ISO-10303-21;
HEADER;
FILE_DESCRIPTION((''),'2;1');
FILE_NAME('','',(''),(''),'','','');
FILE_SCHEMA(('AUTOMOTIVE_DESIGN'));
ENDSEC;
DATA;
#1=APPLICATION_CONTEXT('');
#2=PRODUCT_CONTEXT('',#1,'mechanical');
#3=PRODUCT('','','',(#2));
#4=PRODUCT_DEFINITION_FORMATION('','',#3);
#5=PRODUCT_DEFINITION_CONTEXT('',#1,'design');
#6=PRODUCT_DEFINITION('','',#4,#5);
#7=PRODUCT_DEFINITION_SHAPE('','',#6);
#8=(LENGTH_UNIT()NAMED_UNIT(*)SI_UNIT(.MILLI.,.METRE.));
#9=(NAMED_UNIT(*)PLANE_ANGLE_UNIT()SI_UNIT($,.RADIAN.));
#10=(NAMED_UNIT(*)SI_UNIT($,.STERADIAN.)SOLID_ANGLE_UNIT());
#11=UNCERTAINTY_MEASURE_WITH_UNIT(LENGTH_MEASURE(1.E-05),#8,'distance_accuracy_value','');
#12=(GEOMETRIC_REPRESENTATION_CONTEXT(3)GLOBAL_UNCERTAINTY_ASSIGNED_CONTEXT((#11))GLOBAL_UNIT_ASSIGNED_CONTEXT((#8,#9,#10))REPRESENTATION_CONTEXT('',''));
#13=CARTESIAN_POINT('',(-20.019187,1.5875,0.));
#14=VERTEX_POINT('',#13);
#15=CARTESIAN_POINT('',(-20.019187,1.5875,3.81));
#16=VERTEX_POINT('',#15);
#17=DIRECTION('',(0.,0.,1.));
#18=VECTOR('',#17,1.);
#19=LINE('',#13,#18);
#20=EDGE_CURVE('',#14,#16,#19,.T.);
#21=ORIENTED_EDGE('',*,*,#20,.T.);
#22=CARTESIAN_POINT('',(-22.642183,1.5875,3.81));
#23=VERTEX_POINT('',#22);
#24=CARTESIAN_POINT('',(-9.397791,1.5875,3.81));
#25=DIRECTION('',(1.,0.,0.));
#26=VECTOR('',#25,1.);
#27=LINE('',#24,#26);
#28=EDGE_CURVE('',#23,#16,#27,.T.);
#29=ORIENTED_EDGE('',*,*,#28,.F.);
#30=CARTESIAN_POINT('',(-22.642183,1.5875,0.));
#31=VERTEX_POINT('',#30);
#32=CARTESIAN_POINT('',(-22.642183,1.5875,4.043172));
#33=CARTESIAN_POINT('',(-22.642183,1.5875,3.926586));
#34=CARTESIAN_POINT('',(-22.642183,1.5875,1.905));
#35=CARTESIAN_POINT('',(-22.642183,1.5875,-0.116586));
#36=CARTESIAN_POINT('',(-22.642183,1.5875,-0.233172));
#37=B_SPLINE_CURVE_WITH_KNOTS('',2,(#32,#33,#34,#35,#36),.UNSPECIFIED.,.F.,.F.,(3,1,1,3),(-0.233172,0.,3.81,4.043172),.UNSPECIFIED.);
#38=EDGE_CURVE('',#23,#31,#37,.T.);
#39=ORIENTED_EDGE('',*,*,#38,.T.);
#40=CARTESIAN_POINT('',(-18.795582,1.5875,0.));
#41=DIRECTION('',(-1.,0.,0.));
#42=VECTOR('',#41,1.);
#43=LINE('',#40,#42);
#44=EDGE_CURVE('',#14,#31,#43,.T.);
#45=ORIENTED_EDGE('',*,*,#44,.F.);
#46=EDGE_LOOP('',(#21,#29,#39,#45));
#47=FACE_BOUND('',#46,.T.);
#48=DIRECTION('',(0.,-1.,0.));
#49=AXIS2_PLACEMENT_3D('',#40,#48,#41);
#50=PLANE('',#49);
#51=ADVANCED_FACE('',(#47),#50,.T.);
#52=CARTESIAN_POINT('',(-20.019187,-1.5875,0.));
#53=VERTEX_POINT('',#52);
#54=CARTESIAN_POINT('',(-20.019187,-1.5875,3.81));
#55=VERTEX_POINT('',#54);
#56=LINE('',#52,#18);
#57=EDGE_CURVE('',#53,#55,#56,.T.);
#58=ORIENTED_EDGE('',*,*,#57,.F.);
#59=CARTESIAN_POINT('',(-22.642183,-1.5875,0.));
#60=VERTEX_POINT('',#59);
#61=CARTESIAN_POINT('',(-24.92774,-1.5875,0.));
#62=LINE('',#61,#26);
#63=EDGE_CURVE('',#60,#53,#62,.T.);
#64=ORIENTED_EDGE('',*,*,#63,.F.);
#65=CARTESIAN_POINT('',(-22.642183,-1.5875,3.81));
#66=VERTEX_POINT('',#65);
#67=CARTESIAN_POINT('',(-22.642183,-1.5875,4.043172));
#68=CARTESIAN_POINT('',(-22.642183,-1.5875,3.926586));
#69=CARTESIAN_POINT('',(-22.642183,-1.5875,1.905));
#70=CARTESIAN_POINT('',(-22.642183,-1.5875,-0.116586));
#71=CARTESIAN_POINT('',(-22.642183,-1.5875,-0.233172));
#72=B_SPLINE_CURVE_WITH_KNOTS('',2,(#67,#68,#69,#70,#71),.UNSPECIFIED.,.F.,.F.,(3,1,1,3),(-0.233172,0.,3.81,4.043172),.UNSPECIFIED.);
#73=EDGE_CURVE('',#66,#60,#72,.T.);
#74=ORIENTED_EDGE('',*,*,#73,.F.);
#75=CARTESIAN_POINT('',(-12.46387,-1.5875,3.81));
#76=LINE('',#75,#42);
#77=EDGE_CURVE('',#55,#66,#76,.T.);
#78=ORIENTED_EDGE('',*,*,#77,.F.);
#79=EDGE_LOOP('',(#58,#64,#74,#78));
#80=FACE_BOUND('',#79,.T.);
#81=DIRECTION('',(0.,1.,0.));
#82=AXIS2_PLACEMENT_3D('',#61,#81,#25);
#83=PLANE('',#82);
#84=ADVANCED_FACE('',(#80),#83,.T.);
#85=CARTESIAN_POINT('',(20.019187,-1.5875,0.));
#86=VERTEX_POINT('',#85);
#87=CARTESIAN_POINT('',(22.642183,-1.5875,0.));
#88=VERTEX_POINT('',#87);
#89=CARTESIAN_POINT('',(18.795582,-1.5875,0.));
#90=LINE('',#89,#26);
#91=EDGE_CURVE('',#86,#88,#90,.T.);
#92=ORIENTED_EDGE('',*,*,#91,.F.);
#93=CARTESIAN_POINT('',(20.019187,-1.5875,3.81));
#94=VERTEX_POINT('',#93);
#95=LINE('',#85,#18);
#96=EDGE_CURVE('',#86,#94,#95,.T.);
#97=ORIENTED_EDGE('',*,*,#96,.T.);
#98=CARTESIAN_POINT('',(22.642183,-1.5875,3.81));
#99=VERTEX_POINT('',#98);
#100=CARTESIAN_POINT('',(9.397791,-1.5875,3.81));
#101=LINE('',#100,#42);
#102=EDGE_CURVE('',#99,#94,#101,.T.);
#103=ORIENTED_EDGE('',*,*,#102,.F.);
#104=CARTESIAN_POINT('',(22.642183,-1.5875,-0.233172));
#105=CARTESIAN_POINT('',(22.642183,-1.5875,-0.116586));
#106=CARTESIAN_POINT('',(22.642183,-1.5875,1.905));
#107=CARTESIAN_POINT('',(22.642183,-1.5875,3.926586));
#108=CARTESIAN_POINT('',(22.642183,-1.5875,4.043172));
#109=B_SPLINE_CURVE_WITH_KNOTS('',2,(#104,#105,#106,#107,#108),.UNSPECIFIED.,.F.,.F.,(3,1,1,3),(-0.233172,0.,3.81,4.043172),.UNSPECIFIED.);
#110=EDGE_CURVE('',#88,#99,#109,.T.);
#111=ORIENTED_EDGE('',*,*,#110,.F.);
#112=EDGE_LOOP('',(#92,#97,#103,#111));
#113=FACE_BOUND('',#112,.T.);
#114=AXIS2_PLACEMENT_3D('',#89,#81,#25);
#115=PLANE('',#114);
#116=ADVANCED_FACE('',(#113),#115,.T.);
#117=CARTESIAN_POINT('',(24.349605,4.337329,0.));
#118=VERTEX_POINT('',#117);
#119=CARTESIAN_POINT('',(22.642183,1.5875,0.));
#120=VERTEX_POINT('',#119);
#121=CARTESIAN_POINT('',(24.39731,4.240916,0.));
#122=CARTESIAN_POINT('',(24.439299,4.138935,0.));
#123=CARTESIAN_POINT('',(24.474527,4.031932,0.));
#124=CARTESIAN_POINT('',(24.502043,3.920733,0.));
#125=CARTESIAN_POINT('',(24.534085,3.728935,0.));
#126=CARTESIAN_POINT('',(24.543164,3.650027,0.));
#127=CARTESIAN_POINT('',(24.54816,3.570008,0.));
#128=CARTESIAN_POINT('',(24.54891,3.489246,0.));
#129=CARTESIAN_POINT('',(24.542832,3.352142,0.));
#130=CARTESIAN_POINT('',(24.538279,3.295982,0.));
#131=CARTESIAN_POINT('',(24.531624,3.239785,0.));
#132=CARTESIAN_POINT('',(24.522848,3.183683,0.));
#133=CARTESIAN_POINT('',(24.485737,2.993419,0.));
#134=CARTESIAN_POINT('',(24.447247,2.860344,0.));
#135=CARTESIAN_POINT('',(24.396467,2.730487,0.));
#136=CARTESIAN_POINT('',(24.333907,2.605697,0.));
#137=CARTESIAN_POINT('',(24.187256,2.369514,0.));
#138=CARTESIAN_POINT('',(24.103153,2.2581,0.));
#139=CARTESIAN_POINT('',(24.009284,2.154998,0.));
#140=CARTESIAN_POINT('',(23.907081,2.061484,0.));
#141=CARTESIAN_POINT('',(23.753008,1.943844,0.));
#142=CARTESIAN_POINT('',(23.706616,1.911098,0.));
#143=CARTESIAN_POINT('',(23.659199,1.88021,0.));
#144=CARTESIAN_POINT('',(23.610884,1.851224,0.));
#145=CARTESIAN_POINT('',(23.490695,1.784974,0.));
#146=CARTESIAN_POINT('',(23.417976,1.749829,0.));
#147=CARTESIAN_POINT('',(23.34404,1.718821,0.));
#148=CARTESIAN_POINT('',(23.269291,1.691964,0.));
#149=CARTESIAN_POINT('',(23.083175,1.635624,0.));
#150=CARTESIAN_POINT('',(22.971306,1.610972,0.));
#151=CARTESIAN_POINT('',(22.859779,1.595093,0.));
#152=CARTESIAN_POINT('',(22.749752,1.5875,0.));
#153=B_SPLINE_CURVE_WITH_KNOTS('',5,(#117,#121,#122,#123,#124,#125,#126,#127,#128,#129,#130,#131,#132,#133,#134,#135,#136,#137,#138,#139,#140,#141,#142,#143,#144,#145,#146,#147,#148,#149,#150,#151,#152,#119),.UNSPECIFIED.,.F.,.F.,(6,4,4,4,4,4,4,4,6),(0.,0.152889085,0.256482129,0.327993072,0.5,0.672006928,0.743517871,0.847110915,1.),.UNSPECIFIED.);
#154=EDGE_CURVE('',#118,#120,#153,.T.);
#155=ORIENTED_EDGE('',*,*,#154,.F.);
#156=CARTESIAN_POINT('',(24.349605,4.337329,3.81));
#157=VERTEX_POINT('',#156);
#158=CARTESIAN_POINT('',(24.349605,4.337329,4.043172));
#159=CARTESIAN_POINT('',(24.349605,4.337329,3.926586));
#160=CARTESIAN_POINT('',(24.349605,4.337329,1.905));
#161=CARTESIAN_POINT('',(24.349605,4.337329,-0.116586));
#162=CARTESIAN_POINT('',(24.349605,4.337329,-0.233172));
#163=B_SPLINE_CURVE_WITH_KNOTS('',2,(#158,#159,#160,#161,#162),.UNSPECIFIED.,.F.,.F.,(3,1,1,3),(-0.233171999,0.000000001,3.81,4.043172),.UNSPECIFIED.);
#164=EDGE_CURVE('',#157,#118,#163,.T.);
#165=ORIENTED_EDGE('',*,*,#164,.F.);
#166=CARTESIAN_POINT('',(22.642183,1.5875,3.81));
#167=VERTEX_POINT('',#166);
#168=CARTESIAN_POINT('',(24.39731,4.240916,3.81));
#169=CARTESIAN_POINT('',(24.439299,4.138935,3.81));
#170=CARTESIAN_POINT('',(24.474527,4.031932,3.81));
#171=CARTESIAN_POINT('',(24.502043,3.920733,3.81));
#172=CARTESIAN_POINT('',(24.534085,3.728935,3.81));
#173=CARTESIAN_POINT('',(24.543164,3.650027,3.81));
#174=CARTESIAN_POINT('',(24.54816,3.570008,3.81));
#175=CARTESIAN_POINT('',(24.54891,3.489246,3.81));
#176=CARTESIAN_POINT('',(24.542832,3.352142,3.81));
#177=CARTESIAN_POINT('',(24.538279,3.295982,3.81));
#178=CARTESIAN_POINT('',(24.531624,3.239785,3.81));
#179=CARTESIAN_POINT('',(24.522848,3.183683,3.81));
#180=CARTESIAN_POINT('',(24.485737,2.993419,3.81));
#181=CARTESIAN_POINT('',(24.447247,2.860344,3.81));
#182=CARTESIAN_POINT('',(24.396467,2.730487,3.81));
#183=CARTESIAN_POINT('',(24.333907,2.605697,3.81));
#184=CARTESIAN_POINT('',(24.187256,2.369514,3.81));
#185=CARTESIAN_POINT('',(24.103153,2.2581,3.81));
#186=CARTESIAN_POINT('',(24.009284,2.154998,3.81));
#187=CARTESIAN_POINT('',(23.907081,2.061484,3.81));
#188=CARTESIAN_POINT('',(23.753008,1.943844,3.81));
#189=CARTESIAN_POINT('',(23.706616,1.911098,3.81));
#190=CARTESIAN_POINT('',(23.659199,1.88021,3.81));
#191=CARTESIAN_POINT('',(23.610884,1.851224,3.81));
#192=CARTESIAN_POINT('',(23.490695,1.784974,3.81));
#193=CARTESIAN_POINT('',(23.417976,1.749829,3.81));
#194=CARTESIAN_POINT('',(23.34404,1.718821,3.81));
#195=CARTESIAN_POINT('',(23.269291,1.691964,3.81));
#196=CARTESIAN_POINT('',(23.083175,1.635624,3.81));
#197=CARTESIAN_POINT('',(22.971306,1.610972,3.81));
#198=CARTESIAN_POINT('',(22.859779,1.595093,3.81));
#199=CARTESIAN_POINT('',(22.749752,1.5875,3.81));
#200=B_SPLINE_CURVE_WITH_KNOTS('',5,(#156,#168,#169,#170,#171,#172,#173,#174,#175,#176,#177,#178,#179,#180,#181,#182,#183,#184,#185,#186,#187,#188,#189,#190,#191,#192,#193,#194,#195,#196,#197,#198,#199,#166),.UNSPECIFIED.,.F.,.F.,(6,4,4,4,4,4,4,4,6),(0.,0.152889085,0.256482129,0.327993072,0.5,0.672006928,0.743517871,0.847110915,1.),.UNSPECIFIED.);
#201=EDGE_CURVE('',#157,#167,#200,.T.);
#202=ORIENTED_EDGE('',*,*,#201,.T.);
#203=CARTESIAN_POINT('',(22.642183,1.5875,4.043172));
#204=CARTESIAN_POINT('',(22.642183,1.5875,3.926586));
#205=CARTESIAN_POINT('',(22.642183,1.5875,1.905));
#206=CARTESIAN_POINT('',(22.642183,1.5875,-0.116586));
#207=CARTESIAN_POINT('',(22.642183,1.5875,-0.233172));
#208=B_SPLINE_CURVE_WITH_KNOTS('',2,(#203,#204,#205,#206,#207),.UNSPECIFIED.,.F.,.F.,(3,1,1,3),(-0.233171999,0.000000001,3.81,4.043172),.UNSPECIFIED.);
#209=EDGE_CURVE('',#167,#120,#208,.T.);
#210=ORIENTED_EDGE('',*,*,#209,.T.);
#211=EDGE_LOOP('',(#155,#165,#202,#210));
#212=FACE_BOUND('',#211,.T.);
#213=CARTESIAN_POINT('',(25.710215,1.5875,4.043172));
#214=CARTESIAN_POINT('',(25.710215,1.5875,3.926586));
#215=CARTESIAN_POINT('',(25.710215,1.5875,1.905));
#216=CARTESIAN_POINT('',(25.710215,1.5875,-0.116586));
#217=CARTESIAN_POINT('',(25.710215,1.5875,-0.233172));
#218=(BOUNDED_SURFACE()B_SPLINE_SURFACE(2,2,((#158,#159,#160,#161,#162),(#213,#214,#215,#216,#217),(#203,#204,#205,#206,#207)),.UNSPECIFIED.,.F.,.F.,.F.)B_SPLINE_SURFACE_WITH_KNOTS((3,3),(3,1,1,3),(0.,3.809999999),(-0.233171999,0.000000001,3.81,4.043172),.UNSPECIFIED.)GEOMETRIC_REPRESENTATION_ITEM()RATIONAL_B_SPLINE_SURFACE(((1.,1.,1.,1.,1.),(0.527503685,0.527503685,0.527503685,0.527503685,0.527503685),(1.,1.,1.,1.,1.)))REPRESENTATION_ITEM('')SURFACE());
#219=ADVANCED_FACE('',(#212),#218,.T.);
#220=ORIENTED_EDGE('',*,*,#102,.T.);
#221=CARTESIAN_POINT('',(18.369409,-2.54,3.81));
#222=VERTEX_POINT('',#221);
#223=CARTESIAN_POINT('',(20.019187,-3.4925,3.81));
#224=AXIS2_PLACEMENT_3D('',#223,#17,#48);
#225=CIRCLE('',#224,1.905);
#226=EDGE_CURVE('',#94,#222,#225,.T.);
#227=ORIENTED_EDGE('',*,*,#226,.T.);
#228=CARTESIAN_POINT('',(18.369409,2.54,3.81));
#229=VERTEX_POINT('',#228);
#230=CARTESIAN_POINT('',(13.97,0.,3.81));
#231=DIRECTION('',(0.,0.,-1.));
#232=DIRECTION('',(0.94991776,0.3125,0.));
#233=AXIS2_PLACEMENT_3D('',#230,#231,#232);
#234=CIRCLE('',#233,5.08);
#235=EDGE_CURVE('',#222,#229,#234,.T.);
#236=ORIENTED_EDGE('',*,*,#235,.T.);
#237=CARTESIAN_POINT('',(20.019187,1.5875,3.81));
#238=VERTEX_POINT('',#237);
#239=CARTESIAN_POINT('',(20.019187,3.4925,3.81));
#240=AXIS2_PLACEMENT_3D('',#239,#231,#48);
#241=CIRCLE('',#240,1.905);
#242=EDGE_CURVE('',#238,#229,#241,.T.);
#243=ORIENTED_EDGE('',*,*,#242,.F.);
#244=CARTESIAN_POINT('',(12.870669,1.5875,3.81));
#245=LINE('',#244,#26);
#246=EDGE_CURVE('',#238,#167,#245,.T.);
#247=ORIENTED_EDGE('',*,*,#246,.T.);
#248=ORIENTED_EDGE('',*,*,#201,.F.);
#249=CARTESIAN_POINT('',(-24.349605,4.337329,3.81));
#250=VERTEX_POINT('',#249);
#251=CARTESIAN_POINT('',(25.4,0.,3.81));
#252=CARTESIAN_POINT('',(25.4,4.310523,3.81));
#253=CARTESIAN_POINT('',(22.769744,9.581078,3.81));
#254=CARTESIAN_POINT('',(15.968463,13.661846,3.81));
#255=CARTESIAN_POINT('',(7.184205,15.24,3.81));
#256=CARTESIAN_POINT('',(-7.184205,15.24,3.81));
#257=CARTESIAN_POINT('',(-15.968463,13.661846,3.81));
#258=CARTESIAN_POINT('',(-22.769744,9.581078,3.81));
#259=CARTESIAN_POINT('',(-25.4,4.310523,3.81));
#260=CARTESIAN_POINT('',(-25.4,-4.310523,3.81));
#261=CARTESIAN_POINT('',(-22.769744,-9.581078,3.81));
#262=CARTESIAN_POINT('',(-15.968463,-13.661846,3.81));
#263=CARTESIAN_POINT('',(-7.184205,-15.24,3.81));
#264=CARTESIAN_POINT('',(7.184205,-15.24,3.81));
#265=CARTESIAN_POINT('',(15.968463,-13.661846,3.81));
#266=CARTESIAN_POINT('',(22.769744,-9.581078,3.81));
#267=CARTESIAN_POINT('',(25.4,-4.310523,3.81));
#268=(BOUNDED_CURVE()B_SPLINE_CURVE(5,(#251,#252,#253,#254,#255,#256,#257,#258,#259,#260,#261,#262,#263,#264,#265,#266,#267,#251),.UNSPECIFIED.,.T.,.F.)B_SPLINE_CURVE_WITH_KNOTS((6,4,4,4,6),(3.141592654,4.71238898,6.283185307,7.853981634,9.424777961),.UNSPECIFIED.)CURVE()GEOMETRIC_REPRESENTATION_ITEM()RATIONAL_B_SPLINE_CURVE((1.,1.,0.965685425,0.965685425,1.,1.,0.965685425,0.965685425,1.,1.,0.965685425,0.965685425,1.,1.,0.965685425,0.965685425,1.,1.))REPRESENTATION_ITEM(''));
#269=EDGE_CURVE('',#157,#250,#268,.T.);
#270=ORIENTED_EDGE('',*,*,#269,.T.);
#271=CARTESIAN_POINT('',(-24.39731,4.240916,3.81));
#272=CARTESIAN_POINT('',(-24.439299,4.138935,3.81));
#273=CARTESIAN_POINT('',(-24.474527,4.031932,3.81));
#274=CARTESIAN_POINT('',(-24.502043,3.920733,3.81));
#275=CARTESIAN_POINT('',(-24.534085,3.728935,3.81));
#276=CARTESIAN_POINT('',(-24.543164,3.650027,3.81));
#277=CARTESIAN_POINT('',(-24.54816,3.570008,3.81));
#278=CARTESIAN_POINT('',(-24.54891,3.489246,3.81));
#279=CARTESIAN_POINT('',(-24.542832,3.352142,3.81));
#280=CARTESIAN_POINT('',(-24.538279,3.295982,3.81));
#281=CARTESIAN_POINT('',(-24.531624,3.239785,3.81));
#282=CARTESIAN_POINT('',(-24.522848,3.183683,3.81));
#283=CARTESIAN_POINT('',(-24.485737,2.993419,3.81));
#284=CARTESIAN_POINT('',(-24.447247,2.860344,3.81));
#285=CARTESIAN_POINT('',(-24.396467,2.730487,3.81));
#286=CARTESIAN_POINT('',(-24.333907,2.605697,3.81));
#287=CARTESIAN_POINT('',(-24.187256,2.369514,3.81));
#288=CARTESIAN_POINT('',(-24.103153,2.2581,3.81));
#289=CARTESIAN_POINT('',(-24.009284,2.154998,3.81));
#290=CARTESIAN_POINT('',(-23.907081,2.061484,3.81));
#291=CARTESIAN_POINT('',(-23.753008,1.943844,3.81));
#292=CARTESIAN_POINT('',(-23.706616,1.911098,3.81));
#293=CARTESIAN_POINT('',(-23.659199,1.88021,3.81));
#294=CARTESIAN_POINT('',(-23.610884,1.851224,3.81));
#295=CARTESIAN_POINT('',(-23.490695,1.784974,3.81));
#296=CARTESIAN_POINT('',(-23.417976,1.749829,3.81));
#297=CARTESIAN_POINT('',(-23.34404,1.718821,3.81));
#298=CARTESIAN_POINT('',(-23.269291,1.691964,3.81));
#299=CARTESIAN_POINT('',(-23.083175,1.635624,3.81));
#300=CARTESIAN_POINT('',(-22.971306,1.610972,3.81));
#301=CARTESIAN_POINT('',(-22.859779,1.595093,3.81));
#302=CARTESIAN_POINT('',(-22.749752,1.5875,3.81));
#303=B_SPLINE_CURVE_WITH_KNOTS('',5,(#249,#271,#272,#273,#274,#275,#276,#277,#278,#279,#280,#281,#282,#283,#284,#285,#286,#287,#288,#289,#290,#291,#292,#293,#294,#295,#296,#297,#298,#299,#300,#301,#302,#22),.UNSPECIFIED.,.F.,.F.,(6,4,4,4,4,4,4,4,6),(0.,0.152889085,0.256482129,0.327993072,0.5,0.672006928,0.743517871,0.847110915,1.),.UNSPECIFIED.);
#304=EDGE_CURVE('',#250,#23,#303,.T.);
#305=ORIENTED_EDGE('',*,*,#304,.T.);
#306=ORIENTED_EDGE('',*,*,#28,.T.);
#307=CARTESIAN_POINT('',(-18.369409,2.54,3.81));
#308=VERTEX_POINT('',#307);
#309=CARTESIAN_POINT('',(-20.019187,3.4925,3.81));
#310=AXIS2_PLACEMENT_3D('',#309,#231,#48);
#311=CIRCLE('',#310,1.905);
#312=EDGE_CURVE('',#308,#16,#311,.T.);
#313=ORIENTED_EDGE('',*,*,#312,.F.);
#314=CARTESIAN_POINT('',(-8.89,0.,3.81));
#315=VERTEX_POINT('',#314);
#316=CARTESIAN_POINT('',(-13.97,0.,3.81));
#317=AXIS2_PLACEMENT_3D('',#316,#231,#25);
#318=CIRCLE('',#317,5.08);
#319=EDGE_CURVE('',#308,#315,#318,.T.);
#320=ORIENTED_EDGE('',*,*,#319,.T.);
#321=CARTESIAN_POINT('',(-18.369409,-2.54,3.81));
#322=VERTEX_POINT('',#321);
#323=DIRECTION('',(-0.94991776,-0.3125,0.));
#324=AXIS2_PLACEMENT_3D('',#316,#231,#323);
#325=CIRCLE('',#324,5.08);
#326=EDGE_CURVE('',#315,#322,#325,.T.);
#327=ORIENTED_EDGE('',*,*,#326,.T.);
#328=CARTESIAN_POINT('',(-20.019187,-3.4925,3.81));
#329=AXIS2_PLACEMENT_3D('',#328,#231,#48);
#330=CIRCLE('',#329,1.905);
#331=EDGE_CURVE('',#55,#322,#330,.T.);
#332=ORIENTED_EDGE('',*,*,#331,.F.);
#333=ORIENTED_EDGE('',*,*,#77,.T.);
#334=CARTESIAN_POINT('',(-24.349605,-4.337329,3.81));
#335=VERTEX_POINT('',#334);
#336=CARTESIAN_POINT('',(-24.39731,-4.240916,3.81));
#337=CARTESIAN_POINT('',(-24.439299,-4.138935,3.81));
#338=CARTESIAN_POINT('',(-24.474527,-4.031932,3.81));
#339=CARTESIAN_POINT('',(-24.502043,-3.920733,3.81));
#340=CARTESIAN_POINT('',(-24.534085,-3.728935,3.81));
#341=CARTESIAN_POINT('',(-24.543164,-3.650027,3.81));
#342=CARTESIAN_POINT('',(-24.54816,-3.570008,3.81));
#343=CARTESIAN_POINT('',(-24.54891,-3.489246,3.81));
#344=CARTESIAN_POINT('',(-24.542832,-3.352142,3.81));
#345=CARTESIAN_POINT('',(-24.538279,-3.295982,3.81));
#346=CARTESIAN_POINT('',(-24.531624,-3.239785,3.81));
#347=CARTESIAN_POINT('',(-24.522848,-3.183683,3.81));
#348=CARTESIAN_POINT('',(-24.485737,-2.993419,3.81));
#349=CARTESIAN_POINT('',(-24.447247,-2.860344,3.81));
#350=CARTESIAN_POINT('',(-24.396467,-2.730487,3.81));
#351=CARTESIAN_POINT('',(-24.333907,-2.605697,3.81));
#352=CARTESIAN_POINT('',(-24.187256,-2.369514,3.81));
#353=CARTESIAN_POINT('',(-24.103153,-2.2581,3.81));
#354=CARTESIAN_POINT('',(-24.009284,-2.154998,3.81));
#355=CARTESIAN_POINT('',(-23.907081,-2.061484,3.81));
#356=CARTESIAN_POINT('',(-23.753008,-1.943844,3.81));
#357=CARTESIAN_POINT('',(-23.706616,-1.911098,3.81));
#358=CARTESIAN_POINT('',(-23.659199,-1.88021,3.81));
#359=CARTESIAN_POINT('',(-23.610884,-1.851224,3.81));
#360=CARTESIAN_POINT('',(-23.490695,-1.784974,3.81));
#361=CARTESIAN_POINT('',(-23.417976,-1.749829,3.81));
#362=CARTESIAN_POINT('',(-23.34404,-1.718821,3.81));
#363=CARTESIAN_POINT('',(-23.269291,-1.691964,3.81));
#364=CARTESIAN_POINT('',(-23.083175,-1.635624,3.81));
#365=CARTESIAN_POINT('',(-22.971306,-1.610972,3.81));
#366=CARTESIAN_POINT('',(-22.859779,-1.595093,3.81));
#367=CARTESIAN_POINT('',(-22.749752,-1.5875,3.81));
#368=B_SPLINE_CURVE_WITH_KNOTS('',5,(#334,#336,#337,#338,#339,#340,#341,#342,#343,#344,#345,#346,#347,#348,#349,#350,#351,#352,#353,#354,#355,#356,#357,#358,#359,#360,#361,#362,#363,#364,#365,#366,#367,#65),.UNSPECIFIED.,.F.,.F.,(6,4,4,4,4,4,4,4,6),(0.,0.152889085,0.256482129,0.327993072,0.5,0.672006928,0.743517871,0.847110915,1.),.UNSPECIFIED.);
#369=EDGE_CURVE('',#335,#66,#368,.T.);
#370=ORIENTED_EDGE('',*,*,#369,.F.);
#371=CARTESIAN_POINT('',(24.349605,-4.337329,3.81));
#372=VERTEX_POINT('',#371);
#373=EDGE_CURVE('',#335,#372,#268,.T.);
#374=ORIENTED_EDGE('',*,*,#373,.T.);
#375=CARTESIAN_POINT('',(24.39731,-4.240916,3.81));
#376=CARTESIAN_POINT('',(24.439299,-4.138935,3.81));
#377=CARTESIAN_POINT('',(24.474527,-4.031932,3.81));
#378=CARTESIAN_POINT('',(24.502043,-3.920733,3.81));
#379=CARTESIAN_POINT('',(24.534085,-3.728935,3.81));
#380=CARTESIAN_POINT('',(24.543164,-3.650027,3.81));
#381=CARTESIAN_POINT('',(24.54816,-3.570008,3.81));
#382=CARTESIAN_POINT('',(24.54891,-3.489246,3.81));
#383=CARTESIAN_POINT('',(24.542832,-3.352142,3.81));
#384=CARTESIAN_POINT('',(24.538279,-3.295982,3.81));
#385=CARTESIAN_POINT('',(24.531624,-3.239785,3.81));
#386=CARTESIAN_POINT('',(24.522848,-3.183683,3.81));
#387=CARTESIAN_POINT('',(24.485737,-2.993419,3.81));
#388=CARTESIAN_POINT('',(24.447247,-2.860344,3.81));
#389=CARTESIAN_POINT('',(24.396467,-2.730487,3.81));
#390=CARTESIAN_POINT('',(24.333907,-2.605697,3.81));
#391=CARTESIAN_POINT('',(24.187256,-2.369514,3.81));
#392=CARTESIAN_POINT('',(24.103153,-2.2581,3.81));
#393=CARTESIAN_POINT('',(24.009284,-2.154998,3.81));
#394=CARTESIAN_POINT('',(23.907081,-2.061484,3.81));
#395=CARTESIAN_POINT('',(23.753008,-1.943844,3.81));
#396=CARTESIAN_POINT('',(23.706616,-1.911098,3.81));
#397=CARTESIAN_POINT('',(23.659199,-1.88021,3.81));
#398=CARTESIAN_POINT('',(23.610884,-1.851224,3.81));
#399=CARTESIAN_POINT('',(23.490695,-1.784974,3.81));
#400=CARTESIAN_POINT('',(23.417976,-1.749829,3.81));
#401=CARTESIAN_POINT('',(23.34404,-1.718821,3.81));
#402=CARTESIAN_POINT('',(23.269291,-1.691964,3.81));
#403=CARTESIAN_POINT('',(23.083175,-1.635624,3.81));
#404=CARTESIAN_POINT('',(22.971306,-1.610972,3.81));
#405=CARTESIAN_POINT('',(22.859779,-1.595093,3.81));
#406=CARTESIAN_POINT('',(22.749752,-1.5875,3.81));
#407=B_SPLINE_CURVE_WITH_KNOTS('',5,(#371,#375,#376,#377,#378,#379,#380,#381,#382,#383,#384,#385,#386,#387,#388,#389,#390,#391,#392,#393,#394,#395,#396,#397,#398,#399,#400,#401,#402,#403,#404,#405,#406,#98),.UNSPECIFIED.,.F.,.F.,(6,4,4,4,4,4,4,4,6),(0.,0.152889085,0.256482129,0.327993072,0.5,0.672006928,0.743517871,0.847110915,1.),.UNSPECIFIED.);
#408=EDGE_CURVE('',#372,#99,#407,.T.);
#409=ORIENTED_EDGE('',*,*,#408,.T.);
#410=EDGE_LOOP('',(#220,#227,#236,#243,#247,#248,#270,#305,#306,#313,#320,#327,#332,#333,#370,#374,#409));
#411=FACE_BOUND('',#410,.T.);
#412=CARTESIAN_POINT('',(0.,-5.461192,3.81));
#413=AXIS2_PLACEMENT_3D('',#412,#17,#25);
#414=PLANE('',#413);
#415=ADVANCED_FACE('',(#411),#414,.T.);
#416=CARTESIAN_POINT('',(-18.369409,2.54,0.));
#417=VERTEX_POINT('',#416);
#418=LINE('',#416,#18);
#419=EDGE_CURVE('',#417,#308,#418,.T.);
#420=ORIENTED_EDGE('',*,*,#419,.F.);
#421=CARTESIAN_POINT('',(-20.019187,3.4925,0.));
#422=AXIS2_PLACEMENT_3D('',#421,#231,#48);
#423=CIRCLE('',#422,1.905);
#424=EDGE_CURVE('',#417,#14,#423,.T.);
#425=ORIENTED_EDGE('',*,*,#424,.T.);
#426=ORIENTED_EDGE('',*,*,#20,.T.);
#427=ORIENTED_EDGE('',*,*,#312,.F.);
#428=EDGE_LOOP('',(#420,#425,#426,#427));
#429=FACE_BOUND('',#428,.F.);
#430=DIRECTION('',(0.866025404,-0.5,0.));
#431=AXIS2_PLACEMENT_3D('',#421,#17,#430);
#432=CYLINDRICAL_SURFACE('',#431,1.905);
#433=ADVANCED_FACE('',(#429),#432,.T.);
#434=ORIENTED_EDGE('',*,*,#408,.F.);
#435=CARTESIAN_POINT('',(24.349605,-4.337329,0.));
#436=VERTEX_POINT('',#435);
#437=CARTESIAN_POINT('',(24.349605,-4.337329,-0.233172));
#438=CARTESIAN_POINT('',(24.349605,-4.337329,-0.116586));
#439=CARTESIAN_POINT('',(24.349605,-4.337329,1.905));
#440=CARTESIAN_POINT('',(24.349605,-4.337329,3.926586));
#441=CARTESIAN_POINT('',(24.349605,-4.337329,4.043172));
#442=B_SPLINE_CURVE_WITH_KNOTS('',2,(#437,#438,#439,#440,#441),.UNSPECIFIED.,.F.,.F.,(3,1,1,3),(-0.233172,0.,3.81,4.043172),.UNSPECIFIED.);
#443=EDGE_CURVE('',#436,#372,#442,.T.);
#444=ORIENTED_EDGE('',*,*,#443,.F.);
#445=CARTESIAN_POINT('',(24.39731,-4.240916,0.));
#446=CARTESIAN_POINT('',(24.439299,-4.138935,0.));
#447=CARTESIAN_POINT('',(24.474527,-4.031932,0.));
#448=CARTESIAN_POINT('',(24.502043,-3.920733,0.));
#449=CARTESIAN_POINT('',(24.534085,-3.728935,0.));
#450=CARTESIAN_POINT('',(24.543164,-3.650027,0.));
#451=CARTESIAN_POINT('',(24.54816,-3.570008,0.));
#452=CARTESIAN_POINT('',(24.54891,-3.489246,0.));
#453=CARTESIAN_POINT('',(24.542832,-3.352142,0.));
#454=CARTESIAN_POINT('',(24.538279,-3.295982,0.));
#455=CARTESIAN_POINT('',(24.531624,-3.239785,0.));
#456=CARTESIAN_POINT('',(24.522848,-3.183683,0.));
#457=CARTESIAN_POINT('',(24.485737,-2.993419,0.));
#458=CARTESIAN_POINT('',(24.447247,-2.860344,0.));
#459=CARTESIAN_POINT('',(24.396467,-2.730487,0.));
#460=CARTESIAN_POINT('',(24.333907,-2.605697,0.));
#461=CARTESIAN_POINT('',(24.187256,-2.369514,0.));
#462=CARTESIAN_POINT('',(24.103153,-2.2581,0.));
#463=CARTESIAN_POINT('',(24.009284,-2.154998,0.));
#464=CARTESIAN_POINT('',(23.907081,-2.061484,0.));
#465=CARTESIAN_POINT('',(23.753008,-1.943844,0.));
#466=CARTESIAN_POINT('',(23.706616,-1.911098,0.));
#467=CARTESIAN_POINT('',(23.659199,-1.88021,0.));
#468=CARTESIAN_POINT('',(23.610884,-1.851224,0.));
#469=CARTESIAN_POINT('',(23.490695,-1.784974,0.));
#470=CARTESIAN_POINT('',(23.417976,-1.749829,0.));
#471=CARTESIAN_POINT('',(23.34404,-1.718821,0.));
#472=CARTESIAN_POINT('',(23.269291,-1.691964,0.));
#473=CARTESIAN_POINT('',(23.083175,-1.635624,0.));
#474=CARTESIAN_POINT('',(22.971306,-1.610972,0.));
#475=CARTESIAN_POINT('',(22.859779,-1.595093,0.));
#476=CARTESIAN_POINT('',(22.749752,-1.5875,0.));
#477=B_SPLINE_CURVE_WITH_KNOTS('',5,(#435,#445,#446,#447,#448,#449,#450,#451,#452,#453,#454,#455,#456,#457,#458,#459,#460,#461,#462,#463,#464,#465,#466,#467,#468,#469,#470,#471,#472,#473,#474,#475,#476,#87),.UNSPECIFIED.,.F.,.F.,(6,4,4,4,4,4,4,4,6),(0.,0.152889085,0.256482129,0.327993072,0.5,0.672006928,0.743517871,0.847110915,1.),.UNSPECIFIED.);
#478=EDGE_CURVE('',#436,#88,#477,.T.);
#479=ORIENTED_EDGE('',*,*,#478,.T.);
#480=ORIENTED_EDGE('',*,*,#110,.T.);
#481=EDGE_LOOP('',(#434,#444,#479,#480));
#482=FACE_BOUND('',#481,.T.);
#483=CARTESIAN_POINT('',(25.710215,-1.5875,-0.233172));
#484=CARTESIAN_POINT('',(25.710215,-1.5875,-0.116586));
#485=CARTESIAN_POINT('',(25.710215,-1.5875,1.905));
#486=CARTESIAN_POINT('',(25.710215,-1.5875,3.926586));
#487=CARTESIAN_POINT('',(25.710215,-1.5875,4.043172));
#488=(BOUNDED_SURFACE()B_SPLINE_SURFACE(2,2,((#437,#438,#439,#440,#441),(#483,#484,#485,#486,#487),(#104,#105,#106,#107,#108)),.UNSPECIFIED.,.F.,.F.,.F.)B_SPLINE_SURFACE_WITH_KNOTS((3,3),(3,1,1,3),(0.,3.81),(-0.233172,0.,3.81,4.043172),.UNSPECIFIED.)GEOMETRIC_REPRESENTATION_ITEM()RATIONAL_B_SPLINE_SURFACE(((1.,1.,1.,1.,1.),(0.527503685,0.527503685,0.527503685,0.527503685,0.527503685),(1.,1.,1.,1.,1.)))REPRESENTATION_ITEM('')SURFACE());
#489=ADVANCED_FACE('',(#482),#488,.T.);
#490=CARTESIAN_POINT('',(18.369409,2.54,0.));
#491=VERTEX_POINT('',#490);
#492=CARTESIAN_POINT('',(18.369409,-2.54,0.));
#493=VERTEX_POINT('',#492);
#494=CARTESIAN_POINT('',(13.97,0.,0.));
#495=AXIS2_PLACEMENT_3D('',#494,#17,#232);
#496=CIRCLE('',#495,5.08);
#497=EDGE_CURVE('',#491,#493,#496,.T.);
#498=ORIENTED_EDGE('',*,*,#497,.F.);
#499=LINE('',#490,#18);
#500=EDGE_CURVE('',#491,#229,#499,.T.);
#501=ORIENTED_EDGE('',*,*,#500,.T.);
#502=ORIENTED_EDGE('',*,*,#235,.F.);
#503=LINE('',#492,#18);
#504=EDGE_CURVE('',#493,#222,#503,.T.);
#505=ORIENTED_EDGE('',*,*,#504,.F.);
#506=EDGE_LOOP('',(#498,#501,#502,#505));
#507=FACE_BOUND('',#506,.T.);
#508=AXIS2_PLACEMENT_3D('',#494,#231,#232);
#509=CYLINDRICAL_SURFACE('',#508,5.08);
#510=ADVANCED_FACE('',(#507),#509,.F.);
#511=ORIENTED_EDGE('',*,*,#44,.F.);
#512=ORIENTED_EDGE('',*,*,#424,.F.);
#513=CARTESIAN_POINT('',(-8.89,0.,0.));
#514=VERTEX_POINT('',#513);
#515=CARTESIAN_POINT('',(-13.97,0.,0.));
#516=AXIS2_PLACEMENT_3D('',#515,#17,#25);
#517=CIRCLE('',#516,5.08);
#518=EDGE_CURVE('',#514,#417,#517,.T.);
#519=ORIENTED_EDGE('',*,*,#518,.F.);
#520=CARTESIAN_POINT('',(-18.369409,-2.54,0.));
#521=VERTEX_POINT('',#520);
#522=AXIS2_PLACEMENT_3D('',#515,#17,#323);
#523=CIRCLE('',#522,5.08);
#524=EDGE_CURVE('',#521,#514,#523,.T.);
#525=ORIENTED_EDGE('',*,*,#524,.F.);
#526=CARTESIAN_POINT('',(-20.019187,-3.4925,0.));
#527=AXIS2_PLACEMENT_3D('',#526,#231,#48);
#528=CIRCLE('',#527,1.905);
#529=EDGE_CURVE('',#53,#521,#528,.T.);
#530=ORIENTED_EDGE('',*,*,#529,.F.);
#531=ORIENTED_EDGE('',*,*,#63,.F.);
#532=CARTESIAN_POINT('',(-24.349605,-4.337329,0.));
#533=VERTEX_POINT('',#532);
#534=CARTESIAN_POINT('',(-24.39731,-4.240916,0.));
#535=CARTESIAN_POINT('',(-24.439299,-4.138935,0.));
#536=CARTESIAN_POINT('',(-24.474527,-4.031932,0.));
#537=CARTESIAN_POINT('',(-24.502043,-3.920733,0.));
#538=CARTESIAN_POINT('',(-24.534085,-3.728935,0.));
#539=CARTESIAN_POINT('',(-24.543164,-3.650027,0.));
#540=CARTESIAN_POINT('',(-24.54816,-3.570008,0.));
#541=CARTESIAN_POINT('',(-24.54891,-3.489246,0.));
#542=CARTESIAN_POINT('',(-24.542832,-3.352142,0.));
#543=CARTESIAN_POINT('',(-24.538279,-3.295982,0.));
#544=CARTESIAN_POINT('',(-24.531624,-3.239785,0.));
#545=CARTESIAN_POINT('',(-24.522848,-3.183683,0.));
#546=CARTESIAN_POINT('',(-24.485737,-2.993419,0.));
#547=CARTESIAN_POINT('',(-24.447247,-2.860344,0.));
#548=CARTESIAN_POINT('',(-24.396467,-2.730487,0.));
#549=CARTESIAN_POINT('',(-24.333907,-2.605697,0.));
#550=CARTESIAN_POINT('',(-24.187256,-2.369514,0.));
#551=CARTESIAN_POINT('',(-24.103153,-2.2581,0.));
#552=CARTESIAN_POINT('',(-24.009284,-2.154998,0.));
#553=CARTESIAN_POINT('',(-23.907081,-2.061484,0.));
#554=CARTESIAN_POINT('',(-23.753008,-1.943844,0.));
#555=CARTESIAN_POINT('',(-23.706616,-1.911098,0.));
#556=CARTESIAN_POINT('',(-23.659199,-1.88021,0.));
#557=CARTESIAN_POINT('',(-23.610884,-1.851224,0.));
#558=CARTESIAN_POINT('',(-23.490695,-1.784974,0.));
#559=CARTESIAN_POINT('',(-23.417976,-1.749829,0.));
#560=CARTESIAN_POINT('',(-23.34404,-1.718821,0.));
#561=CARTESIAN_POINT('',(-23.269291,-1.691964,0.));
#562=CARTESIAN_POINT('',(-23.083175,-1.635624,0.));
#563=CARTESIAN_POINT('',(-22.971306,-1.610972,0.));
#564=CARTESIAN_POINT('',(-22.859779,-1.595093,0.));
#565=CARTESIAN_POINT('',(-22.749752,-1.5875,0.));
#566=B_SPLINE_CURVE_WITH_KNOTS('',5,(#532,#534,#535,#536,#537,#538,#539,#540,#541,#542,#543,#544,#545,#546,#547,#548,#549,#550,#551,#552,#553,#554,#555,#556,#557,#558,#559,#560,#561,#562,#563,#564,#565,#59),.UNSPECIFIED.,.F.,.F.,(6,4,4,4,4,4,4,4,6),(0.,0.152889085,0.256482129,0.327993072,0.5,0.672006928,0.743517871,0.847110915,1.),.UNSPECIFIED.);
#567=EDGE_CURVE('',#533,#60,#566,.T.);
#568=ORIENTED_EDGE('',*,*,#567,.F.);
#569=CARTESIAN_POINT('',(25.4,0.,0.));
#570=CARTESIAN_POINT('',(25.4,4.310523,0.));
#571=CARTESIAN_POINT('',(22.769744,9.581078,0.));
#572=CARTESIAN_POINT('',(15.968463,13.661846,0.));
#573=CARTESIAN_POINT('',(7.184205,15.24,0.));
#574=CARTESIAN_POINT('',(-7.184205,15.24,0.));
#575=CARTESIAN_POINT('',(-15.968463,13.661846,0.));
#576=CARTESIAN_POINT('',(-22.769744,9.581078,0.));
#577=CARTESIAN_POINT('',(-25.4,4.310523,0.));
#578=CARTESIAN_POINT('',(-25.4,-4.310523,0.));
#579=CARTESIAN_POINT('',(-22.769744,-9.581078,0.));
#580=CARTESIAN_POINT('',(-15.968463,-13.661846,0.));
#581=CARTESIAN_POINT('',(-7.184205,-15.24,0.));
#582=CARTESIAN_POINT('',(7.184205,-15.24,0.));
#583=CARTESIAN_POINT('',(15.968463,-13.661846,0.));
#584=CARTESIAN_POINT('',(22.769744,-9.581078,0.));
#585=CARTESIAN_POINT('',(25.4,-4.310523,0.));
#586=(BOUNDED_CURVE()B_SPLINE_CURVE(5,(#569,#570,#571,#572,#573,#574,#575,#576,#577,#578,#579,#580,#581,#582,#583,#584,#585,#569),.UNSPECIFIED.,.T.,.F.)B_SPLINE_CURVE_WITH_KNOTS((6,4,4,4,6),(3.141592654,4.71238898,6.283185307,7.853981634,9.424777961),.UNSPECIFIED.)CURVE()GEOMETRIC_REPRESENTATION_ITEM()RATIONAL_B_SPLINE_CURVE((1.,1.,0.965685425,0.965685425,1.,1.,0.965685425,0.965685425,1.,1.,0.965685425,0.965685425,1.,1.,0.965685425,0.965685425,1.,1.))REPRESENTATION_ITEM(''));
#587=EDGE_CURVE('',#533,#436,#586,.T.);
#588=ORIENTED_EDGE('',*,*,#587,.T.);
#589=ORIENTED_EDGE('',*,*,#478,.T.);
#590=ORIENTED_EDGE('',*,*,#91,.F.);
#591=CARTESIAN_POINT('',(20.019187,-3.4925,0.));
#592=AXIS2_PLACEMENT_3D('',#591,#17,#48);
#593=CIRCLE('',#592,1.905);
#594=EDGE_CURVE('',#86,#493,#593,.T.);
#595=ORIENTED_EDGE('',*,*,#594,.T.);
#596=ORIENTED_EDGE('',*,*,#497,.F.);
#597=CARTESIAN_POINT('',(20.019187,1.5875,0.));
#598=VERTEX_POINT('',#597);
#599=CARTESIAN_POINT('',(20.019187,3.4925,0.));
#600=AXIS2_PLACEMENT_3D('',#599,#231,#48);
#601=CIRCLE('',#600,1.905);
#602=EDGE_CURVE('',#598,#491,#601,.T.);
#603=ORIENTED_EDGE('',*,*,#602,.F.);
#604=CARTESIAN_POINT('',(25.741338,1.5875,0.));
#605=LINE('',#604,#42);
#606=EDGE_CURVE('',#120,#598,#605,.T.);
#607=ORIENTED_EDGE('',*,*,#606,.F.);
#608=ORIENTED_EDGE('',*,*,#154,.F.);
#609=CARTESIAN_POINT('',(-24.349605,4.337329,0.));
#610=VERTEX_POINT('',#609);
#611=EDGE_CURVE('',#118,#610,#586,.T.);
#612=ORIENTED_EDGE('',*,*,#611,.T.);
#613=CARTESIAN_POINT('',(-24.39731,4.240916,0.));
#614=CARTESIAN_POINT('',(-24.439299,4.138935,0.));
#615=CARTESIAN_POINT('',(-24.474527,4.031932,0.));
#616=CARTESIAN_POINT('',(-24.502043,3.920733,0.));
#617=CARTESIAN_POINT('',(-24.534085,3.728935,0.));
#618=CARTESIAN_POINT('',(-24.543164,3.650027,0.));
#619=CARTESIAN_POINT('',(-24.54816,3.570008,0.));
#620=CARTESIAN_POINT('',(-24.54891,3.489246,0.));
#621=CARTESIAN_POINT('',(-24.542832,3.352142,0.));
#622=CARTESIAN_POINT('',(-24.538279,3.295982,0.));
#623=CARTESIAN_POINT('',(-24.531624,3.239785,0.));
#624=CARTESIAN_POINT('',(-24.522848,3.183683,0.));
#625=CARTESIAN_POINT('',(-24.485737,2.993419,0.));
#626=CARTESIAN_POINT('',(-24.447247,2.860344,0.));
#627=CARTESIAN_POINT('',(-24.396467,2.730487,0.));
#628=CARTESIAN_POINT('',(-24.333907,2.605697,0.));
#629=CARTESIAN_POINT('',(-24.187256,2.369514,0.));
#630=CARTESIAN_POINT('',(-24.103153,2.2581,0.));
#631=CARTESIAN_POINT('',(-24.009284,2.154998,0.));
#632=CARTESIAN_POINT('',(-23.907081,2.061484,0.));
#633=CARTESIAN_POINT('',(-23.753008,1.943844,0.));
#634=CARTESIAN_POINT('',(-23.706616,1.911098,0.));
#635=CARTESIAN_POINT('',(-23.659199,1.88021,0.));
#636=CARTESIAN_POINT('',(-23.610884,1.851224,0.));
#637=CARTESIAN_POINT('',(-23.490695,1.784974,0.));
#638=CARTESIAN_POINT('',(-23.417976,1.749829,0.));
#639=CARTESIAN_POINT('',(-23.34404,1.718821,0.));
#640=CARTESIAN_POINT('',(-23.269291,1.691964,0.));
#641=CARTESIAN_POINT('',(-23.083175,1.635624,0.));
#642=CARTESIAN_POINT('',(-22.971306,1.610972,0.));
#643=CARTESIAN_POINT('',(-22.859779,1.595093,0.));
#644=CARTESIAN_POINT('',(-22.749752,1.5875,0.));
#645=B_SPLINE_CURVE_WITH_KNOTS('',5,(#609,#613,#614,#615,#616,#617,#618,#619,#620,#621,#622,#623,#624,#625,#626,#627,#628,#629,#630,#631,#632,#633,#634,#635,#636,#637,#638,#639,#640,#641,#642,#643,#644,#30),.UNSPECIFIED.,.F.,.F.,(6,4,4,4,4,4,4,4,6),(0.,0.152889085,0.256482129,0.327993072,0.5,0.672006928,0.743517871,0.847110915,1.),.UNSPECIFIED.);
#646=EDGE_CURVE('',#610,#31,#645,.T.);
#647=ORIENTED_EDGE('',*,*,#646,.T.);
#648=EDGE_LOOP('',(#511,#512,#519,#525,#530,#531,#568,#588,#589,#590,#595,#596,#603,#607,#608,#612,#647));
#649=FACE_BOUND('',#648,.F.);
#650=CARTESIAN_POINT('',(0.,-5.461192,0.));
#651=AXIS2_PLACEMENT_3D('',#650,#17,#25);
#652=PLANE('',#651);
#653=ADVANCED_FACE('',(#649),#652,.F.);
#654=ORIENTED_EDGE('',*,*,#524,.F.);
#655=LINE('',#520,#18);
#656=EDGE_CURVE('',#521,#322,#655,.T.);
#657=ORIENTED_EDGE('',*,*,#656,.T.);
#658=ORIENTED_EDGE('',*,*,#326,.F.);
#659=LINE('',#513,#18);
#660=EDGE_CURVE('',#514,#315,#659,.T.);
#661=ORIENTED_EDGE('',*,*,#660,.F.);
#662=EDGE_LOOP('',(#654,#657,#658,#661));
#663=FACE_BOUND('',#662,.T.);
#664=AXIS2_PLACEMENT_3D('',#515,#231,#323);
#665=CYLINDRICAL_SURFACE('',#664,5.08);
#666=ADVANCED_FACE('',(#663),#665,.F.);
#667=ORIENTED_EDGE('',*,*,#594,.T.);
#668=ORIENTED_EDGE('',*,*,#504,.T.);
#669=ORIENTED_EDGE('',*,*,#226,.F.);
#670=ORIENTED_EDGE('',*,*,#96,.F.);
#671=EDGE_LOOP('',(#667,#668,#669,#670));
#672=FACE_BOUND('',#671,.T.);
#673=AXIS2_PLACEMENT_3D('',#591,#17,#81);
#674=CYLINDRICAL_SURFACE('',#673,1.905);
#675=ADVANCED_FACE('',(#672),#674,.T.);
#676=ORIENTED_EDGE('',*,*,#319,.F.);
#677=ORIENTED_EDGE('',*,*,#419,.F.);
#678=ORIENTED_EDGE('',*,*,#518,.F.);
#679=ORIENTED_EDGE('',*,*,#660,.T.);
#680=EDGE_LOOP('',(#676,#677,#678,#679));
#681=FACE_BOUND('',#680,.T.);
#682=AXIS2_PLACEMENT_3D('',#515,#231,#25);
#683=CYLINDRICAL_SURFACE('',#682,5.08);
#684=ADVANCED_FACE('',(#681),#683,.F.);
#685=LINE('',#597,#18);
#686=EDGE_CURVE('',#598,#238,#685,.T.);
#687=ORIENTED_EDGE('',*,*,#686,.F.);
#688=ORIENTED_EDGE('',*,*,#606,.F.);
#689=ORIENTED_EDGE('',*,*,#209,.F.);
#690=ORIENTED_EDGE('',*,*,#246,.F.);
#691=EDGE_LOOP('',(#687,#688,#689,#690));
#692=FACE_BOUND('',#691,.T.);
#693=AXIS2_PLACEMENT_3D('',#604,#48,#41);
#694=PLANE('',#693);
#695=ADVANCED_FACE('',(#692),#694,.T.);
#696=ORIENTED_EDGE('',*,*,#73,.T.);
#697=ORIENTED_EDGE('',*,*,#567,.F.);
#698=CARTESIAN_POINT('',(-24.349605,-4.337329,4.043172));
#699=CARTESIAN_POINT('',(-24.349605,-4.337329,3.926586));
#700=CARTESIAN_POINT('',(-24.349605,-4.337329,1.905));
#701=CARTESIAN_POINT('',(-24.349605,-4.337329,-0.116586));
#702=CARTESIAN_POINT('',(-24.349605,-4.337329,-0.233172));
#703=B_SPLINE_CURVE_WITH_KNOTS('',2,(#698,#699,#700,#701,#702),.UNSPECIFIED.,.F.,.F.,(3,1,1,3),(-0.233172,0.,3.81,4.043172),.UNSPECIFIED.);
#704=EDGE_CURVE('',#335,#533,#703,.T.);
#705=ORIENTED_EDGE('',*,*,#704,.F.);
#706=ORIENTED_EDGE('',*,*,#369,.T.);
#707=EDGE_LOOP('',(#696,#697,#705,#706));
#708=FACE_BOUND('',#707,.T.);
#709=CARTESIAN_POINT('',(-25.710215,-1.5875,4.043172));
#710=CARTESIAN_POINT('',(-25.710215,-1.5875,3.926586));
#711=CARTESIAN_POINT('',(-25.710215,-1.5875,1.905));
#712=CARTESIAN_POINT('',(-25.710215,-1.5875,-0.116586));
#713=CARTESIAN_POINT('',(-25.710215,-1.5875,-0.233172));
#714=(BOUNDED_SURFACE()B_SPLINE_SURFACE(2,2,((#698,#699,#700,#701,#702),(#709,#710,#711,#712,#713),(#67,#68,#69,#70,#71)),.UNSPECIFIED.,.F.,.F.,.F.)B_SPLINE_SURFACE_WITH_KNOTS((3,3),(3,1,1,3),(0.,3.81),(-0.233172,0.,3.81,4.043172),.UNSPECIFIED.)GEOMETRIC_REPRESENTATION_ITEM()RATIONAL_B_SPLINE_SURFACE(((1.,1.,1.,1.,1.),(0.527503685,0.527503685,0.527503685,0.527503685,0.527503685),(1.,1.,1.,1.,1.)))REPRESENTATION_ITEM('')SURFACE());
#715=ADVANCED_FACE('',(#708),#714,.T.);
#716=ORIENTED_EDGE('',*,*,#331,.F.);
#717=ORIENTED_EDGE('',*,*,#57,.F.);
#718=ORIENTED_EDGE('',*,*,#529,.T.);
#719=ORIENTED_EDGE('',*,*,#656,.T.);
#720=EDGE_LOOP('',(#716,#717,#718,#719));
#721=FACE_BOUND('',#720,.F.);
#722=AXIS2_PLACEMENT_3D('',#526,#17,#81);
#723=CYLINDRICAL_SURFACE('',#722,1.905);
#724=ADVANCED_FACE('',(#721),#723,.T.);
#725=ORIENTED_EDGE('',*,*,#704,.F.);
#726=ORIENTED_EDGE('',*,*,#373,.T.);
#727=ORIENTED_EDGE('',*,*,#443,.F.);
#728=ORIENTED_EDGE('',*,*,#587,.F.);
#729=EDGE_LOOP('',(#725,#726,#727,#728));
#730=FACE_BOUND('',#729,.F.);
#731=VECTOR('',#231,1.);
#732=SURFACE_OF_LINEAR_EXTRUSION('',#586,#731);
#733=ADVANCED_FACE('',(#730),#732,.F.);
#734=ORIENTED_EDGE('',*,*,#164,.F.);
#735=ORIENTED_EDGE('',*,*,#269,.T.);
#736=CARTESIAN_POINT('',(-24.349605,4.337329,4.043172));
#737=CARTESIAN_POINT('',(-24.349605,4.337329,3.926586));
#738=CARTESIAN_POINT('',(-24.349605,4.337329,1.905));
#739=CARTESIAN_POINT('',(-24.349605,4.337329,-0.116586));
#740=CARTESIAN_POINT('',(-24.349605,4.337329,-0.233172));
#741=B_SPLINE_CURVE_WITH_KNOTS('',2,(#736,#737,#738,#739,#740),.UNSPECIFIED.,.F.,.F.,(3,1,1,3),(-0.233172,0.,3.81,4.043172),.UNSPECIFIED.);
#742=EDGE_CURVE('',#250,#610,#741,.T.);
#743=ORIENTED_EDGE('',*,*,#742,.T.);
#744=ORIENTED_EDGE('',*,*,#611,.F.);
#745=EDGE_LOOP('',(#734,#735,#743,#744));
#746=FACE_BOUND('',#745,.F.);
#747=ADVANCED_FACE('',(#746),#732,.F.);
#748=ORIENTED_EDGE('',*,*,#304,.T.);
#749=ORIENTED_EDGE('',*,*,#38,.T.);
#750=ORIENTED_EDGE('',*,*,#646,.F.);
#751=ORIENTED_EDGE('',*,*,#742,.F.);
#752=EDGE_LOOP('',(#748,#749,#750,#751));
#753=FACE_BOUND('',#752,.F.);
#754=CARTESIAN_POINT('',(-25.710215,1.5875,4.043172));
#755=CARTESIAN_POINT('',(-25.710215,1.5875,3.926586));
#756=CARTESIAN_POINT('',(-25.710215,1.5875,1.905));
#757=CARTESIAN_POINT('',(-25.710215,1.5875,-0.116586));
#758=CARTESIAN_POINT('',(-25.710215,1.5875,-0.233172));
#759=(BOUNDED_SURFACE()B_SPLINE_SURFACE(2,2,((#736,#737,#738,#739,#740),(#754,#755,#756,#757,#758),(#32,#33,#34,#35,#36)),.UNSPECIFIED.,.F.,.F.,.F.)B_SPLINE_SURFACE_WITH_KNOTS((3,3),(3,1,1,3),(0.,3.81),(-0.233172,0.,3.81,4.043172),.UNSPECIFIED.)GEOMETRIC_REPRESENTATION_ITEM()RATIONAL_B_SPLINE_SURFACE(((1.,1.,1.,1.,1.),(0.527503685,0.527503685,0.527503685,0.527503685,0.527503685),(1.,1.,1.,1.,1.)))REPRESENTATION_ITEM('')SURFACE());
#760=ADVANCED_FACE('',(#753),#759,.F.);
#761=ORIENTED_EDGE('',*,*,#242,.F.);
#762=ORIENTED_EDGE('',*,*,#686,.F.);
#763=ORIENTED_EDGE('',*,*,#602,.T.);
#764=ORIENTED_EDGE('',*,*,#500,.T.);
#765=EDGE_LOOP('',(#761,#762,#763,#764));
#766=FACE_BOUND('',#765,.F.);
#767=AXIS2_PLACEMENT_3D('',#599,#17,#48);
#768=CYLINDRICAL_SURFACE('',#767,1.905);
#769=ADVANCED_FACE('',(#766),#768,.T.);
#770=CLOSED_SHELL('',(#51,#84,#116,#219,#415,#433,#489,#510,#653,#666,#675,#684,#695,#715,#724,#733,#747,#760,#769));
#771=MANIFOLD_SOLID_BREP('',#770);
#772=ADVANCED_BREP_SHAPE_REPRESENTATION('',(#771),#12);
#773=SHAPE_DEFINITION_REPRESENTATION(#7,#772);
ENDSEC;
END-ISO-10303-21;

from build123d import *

# Parameters (mm, degrees)
F1_DEPTH = 3.81
F3_DEPTH = 3.8110001
F4_R     = 1.905
F5_R     = 1.905


with BuildPart() as f1:
    # F0 (on Top) → F1 (new body)
    with BuildSketch(Plane.XY):
        with BuildLine():
            Line((25.4, 0), (-25.4, 0))
            add(Edge.make_bspline(
                [(-25.4, 0), (-25.4, -15.24), (0, -15.24), (25.4, -15.24), (25.4, 0)],
                knots=[0, 0, 0, 1.5707963268, 1.5707963268, 3.1415926536, 3.1415926536, 3.1415926536], degree=2, weights=[1, 0.7071067812, 1, 0.7071067812, 1]))
        make_face()
        with BuildLine():
            add(Edge.make_bspline(
                [(25.4, 0), (25.4, 15.24), (0, 15.24), (-25.4, 15.24), (-25.4, 0)],
                knots=[3.1415926536, 3.1415926536, 3.1415926536, 4.7123889804, 4.7123889804, 6.2831853072, 6.2831853072, 6.2831853072], degree=2, weights=[1, 0.7071067812, 1, 0.7071067812, 1]))
            Line((-25.4, 0), (25.4, 0))
        make_face()
    extrude(amount=F1_DEPTH)

    # F2 (on Top) → F3 (cut, through all)
    with BuildSketch(Plane.XY):
        with BuildLine():
            ThreePointArc((18.7955822188, -1.5875), (18.9859923082, -0.8038788244), (19.05, 0))
            ThreePointArc((19.05, 0), (18.9859923082, 0.8038788244), (18.7955822188, 1.5875))
            ThreePointArc((18.7955822188, 1.5875), (8.89, 0), (18.7955822188, -1.5875))
        make_face()
        with BuildLine():
            ThreePointArc((18.7955822188, 1.5875), (18.9859923082, 0.8038788244), (19.05, 0))
            ThreePointArc((19.05, 0), (18.9859923082, -0.8038788244), (18.7955822188, -1.5875))
            Line((18.7955822188, -1.5875), (25.2618203218, -1.5875))
            ThreePointArc((25.2618203218, -1.5875), (27.3468412814, -0.2786884779), (25.7413380683, 1.5875))
            Line((25.7413380683, 1.5875), (18.7955822188, 1.5875))
        make_face()
        with BuildLine():
            ThreePointArc((-18.7955822188, -1.5875), (-13.1661211756, -5.0159923082), (-8.89, 0))
            ThreePointArc((-8.89, 0), (-13.1661211756, 5.0159923082), (-18.7955822188, 1.5875))
            ThreePointArc((-18.7955822188, 1.5875), (-19.05, 0), (-18.7955822188, -1.5875))
        make_face()
        with BuildLine():
            ThreePointArc((-18.7955822188, -1.5875), (-19.05, 0), (-18.7955822188, 1.5875))
            Line((-18.7955822188, 1.5875), (-24.9277395298, 1.5875))
            ThreePointArc((-24.9277395298, 1.5875), (-26.5152395298, 0), (-24.9277395298, -1.5875))
            Line((-24.9277395298, -1.5875), (-18.7955822188, -1.5875))
        make_face()
    extrude(amount=F3_DEPTH, mode=Mode.SUBTRACT)

    # F4
    f4_edges = [f1.edges().sort_by_distance(p)[0] for p in [
        (25.26182, 1.5875, 1.905),
        (-18.795582, -1.5875, 1.905),
        (-25.268192, 1.550564, 1.905),
        (-25.268192, -1.550564, 1.905),
        (18.795582, 1.5875, 1.905),
        (-18.795582, 1.5875, 1.905),
    ]]
    fillet(f4_edges, radius=F4_R)

    # F5
    f5_edges = [f1.edges().sort_by_distance(p)[0] for p in [
        (25.26182, -1.5875, 1.905),
        (18.795582, -1.5875, 1.905),
    ]]
    fillet(f5_edges, radius=F5_R)


solid = f1.part
